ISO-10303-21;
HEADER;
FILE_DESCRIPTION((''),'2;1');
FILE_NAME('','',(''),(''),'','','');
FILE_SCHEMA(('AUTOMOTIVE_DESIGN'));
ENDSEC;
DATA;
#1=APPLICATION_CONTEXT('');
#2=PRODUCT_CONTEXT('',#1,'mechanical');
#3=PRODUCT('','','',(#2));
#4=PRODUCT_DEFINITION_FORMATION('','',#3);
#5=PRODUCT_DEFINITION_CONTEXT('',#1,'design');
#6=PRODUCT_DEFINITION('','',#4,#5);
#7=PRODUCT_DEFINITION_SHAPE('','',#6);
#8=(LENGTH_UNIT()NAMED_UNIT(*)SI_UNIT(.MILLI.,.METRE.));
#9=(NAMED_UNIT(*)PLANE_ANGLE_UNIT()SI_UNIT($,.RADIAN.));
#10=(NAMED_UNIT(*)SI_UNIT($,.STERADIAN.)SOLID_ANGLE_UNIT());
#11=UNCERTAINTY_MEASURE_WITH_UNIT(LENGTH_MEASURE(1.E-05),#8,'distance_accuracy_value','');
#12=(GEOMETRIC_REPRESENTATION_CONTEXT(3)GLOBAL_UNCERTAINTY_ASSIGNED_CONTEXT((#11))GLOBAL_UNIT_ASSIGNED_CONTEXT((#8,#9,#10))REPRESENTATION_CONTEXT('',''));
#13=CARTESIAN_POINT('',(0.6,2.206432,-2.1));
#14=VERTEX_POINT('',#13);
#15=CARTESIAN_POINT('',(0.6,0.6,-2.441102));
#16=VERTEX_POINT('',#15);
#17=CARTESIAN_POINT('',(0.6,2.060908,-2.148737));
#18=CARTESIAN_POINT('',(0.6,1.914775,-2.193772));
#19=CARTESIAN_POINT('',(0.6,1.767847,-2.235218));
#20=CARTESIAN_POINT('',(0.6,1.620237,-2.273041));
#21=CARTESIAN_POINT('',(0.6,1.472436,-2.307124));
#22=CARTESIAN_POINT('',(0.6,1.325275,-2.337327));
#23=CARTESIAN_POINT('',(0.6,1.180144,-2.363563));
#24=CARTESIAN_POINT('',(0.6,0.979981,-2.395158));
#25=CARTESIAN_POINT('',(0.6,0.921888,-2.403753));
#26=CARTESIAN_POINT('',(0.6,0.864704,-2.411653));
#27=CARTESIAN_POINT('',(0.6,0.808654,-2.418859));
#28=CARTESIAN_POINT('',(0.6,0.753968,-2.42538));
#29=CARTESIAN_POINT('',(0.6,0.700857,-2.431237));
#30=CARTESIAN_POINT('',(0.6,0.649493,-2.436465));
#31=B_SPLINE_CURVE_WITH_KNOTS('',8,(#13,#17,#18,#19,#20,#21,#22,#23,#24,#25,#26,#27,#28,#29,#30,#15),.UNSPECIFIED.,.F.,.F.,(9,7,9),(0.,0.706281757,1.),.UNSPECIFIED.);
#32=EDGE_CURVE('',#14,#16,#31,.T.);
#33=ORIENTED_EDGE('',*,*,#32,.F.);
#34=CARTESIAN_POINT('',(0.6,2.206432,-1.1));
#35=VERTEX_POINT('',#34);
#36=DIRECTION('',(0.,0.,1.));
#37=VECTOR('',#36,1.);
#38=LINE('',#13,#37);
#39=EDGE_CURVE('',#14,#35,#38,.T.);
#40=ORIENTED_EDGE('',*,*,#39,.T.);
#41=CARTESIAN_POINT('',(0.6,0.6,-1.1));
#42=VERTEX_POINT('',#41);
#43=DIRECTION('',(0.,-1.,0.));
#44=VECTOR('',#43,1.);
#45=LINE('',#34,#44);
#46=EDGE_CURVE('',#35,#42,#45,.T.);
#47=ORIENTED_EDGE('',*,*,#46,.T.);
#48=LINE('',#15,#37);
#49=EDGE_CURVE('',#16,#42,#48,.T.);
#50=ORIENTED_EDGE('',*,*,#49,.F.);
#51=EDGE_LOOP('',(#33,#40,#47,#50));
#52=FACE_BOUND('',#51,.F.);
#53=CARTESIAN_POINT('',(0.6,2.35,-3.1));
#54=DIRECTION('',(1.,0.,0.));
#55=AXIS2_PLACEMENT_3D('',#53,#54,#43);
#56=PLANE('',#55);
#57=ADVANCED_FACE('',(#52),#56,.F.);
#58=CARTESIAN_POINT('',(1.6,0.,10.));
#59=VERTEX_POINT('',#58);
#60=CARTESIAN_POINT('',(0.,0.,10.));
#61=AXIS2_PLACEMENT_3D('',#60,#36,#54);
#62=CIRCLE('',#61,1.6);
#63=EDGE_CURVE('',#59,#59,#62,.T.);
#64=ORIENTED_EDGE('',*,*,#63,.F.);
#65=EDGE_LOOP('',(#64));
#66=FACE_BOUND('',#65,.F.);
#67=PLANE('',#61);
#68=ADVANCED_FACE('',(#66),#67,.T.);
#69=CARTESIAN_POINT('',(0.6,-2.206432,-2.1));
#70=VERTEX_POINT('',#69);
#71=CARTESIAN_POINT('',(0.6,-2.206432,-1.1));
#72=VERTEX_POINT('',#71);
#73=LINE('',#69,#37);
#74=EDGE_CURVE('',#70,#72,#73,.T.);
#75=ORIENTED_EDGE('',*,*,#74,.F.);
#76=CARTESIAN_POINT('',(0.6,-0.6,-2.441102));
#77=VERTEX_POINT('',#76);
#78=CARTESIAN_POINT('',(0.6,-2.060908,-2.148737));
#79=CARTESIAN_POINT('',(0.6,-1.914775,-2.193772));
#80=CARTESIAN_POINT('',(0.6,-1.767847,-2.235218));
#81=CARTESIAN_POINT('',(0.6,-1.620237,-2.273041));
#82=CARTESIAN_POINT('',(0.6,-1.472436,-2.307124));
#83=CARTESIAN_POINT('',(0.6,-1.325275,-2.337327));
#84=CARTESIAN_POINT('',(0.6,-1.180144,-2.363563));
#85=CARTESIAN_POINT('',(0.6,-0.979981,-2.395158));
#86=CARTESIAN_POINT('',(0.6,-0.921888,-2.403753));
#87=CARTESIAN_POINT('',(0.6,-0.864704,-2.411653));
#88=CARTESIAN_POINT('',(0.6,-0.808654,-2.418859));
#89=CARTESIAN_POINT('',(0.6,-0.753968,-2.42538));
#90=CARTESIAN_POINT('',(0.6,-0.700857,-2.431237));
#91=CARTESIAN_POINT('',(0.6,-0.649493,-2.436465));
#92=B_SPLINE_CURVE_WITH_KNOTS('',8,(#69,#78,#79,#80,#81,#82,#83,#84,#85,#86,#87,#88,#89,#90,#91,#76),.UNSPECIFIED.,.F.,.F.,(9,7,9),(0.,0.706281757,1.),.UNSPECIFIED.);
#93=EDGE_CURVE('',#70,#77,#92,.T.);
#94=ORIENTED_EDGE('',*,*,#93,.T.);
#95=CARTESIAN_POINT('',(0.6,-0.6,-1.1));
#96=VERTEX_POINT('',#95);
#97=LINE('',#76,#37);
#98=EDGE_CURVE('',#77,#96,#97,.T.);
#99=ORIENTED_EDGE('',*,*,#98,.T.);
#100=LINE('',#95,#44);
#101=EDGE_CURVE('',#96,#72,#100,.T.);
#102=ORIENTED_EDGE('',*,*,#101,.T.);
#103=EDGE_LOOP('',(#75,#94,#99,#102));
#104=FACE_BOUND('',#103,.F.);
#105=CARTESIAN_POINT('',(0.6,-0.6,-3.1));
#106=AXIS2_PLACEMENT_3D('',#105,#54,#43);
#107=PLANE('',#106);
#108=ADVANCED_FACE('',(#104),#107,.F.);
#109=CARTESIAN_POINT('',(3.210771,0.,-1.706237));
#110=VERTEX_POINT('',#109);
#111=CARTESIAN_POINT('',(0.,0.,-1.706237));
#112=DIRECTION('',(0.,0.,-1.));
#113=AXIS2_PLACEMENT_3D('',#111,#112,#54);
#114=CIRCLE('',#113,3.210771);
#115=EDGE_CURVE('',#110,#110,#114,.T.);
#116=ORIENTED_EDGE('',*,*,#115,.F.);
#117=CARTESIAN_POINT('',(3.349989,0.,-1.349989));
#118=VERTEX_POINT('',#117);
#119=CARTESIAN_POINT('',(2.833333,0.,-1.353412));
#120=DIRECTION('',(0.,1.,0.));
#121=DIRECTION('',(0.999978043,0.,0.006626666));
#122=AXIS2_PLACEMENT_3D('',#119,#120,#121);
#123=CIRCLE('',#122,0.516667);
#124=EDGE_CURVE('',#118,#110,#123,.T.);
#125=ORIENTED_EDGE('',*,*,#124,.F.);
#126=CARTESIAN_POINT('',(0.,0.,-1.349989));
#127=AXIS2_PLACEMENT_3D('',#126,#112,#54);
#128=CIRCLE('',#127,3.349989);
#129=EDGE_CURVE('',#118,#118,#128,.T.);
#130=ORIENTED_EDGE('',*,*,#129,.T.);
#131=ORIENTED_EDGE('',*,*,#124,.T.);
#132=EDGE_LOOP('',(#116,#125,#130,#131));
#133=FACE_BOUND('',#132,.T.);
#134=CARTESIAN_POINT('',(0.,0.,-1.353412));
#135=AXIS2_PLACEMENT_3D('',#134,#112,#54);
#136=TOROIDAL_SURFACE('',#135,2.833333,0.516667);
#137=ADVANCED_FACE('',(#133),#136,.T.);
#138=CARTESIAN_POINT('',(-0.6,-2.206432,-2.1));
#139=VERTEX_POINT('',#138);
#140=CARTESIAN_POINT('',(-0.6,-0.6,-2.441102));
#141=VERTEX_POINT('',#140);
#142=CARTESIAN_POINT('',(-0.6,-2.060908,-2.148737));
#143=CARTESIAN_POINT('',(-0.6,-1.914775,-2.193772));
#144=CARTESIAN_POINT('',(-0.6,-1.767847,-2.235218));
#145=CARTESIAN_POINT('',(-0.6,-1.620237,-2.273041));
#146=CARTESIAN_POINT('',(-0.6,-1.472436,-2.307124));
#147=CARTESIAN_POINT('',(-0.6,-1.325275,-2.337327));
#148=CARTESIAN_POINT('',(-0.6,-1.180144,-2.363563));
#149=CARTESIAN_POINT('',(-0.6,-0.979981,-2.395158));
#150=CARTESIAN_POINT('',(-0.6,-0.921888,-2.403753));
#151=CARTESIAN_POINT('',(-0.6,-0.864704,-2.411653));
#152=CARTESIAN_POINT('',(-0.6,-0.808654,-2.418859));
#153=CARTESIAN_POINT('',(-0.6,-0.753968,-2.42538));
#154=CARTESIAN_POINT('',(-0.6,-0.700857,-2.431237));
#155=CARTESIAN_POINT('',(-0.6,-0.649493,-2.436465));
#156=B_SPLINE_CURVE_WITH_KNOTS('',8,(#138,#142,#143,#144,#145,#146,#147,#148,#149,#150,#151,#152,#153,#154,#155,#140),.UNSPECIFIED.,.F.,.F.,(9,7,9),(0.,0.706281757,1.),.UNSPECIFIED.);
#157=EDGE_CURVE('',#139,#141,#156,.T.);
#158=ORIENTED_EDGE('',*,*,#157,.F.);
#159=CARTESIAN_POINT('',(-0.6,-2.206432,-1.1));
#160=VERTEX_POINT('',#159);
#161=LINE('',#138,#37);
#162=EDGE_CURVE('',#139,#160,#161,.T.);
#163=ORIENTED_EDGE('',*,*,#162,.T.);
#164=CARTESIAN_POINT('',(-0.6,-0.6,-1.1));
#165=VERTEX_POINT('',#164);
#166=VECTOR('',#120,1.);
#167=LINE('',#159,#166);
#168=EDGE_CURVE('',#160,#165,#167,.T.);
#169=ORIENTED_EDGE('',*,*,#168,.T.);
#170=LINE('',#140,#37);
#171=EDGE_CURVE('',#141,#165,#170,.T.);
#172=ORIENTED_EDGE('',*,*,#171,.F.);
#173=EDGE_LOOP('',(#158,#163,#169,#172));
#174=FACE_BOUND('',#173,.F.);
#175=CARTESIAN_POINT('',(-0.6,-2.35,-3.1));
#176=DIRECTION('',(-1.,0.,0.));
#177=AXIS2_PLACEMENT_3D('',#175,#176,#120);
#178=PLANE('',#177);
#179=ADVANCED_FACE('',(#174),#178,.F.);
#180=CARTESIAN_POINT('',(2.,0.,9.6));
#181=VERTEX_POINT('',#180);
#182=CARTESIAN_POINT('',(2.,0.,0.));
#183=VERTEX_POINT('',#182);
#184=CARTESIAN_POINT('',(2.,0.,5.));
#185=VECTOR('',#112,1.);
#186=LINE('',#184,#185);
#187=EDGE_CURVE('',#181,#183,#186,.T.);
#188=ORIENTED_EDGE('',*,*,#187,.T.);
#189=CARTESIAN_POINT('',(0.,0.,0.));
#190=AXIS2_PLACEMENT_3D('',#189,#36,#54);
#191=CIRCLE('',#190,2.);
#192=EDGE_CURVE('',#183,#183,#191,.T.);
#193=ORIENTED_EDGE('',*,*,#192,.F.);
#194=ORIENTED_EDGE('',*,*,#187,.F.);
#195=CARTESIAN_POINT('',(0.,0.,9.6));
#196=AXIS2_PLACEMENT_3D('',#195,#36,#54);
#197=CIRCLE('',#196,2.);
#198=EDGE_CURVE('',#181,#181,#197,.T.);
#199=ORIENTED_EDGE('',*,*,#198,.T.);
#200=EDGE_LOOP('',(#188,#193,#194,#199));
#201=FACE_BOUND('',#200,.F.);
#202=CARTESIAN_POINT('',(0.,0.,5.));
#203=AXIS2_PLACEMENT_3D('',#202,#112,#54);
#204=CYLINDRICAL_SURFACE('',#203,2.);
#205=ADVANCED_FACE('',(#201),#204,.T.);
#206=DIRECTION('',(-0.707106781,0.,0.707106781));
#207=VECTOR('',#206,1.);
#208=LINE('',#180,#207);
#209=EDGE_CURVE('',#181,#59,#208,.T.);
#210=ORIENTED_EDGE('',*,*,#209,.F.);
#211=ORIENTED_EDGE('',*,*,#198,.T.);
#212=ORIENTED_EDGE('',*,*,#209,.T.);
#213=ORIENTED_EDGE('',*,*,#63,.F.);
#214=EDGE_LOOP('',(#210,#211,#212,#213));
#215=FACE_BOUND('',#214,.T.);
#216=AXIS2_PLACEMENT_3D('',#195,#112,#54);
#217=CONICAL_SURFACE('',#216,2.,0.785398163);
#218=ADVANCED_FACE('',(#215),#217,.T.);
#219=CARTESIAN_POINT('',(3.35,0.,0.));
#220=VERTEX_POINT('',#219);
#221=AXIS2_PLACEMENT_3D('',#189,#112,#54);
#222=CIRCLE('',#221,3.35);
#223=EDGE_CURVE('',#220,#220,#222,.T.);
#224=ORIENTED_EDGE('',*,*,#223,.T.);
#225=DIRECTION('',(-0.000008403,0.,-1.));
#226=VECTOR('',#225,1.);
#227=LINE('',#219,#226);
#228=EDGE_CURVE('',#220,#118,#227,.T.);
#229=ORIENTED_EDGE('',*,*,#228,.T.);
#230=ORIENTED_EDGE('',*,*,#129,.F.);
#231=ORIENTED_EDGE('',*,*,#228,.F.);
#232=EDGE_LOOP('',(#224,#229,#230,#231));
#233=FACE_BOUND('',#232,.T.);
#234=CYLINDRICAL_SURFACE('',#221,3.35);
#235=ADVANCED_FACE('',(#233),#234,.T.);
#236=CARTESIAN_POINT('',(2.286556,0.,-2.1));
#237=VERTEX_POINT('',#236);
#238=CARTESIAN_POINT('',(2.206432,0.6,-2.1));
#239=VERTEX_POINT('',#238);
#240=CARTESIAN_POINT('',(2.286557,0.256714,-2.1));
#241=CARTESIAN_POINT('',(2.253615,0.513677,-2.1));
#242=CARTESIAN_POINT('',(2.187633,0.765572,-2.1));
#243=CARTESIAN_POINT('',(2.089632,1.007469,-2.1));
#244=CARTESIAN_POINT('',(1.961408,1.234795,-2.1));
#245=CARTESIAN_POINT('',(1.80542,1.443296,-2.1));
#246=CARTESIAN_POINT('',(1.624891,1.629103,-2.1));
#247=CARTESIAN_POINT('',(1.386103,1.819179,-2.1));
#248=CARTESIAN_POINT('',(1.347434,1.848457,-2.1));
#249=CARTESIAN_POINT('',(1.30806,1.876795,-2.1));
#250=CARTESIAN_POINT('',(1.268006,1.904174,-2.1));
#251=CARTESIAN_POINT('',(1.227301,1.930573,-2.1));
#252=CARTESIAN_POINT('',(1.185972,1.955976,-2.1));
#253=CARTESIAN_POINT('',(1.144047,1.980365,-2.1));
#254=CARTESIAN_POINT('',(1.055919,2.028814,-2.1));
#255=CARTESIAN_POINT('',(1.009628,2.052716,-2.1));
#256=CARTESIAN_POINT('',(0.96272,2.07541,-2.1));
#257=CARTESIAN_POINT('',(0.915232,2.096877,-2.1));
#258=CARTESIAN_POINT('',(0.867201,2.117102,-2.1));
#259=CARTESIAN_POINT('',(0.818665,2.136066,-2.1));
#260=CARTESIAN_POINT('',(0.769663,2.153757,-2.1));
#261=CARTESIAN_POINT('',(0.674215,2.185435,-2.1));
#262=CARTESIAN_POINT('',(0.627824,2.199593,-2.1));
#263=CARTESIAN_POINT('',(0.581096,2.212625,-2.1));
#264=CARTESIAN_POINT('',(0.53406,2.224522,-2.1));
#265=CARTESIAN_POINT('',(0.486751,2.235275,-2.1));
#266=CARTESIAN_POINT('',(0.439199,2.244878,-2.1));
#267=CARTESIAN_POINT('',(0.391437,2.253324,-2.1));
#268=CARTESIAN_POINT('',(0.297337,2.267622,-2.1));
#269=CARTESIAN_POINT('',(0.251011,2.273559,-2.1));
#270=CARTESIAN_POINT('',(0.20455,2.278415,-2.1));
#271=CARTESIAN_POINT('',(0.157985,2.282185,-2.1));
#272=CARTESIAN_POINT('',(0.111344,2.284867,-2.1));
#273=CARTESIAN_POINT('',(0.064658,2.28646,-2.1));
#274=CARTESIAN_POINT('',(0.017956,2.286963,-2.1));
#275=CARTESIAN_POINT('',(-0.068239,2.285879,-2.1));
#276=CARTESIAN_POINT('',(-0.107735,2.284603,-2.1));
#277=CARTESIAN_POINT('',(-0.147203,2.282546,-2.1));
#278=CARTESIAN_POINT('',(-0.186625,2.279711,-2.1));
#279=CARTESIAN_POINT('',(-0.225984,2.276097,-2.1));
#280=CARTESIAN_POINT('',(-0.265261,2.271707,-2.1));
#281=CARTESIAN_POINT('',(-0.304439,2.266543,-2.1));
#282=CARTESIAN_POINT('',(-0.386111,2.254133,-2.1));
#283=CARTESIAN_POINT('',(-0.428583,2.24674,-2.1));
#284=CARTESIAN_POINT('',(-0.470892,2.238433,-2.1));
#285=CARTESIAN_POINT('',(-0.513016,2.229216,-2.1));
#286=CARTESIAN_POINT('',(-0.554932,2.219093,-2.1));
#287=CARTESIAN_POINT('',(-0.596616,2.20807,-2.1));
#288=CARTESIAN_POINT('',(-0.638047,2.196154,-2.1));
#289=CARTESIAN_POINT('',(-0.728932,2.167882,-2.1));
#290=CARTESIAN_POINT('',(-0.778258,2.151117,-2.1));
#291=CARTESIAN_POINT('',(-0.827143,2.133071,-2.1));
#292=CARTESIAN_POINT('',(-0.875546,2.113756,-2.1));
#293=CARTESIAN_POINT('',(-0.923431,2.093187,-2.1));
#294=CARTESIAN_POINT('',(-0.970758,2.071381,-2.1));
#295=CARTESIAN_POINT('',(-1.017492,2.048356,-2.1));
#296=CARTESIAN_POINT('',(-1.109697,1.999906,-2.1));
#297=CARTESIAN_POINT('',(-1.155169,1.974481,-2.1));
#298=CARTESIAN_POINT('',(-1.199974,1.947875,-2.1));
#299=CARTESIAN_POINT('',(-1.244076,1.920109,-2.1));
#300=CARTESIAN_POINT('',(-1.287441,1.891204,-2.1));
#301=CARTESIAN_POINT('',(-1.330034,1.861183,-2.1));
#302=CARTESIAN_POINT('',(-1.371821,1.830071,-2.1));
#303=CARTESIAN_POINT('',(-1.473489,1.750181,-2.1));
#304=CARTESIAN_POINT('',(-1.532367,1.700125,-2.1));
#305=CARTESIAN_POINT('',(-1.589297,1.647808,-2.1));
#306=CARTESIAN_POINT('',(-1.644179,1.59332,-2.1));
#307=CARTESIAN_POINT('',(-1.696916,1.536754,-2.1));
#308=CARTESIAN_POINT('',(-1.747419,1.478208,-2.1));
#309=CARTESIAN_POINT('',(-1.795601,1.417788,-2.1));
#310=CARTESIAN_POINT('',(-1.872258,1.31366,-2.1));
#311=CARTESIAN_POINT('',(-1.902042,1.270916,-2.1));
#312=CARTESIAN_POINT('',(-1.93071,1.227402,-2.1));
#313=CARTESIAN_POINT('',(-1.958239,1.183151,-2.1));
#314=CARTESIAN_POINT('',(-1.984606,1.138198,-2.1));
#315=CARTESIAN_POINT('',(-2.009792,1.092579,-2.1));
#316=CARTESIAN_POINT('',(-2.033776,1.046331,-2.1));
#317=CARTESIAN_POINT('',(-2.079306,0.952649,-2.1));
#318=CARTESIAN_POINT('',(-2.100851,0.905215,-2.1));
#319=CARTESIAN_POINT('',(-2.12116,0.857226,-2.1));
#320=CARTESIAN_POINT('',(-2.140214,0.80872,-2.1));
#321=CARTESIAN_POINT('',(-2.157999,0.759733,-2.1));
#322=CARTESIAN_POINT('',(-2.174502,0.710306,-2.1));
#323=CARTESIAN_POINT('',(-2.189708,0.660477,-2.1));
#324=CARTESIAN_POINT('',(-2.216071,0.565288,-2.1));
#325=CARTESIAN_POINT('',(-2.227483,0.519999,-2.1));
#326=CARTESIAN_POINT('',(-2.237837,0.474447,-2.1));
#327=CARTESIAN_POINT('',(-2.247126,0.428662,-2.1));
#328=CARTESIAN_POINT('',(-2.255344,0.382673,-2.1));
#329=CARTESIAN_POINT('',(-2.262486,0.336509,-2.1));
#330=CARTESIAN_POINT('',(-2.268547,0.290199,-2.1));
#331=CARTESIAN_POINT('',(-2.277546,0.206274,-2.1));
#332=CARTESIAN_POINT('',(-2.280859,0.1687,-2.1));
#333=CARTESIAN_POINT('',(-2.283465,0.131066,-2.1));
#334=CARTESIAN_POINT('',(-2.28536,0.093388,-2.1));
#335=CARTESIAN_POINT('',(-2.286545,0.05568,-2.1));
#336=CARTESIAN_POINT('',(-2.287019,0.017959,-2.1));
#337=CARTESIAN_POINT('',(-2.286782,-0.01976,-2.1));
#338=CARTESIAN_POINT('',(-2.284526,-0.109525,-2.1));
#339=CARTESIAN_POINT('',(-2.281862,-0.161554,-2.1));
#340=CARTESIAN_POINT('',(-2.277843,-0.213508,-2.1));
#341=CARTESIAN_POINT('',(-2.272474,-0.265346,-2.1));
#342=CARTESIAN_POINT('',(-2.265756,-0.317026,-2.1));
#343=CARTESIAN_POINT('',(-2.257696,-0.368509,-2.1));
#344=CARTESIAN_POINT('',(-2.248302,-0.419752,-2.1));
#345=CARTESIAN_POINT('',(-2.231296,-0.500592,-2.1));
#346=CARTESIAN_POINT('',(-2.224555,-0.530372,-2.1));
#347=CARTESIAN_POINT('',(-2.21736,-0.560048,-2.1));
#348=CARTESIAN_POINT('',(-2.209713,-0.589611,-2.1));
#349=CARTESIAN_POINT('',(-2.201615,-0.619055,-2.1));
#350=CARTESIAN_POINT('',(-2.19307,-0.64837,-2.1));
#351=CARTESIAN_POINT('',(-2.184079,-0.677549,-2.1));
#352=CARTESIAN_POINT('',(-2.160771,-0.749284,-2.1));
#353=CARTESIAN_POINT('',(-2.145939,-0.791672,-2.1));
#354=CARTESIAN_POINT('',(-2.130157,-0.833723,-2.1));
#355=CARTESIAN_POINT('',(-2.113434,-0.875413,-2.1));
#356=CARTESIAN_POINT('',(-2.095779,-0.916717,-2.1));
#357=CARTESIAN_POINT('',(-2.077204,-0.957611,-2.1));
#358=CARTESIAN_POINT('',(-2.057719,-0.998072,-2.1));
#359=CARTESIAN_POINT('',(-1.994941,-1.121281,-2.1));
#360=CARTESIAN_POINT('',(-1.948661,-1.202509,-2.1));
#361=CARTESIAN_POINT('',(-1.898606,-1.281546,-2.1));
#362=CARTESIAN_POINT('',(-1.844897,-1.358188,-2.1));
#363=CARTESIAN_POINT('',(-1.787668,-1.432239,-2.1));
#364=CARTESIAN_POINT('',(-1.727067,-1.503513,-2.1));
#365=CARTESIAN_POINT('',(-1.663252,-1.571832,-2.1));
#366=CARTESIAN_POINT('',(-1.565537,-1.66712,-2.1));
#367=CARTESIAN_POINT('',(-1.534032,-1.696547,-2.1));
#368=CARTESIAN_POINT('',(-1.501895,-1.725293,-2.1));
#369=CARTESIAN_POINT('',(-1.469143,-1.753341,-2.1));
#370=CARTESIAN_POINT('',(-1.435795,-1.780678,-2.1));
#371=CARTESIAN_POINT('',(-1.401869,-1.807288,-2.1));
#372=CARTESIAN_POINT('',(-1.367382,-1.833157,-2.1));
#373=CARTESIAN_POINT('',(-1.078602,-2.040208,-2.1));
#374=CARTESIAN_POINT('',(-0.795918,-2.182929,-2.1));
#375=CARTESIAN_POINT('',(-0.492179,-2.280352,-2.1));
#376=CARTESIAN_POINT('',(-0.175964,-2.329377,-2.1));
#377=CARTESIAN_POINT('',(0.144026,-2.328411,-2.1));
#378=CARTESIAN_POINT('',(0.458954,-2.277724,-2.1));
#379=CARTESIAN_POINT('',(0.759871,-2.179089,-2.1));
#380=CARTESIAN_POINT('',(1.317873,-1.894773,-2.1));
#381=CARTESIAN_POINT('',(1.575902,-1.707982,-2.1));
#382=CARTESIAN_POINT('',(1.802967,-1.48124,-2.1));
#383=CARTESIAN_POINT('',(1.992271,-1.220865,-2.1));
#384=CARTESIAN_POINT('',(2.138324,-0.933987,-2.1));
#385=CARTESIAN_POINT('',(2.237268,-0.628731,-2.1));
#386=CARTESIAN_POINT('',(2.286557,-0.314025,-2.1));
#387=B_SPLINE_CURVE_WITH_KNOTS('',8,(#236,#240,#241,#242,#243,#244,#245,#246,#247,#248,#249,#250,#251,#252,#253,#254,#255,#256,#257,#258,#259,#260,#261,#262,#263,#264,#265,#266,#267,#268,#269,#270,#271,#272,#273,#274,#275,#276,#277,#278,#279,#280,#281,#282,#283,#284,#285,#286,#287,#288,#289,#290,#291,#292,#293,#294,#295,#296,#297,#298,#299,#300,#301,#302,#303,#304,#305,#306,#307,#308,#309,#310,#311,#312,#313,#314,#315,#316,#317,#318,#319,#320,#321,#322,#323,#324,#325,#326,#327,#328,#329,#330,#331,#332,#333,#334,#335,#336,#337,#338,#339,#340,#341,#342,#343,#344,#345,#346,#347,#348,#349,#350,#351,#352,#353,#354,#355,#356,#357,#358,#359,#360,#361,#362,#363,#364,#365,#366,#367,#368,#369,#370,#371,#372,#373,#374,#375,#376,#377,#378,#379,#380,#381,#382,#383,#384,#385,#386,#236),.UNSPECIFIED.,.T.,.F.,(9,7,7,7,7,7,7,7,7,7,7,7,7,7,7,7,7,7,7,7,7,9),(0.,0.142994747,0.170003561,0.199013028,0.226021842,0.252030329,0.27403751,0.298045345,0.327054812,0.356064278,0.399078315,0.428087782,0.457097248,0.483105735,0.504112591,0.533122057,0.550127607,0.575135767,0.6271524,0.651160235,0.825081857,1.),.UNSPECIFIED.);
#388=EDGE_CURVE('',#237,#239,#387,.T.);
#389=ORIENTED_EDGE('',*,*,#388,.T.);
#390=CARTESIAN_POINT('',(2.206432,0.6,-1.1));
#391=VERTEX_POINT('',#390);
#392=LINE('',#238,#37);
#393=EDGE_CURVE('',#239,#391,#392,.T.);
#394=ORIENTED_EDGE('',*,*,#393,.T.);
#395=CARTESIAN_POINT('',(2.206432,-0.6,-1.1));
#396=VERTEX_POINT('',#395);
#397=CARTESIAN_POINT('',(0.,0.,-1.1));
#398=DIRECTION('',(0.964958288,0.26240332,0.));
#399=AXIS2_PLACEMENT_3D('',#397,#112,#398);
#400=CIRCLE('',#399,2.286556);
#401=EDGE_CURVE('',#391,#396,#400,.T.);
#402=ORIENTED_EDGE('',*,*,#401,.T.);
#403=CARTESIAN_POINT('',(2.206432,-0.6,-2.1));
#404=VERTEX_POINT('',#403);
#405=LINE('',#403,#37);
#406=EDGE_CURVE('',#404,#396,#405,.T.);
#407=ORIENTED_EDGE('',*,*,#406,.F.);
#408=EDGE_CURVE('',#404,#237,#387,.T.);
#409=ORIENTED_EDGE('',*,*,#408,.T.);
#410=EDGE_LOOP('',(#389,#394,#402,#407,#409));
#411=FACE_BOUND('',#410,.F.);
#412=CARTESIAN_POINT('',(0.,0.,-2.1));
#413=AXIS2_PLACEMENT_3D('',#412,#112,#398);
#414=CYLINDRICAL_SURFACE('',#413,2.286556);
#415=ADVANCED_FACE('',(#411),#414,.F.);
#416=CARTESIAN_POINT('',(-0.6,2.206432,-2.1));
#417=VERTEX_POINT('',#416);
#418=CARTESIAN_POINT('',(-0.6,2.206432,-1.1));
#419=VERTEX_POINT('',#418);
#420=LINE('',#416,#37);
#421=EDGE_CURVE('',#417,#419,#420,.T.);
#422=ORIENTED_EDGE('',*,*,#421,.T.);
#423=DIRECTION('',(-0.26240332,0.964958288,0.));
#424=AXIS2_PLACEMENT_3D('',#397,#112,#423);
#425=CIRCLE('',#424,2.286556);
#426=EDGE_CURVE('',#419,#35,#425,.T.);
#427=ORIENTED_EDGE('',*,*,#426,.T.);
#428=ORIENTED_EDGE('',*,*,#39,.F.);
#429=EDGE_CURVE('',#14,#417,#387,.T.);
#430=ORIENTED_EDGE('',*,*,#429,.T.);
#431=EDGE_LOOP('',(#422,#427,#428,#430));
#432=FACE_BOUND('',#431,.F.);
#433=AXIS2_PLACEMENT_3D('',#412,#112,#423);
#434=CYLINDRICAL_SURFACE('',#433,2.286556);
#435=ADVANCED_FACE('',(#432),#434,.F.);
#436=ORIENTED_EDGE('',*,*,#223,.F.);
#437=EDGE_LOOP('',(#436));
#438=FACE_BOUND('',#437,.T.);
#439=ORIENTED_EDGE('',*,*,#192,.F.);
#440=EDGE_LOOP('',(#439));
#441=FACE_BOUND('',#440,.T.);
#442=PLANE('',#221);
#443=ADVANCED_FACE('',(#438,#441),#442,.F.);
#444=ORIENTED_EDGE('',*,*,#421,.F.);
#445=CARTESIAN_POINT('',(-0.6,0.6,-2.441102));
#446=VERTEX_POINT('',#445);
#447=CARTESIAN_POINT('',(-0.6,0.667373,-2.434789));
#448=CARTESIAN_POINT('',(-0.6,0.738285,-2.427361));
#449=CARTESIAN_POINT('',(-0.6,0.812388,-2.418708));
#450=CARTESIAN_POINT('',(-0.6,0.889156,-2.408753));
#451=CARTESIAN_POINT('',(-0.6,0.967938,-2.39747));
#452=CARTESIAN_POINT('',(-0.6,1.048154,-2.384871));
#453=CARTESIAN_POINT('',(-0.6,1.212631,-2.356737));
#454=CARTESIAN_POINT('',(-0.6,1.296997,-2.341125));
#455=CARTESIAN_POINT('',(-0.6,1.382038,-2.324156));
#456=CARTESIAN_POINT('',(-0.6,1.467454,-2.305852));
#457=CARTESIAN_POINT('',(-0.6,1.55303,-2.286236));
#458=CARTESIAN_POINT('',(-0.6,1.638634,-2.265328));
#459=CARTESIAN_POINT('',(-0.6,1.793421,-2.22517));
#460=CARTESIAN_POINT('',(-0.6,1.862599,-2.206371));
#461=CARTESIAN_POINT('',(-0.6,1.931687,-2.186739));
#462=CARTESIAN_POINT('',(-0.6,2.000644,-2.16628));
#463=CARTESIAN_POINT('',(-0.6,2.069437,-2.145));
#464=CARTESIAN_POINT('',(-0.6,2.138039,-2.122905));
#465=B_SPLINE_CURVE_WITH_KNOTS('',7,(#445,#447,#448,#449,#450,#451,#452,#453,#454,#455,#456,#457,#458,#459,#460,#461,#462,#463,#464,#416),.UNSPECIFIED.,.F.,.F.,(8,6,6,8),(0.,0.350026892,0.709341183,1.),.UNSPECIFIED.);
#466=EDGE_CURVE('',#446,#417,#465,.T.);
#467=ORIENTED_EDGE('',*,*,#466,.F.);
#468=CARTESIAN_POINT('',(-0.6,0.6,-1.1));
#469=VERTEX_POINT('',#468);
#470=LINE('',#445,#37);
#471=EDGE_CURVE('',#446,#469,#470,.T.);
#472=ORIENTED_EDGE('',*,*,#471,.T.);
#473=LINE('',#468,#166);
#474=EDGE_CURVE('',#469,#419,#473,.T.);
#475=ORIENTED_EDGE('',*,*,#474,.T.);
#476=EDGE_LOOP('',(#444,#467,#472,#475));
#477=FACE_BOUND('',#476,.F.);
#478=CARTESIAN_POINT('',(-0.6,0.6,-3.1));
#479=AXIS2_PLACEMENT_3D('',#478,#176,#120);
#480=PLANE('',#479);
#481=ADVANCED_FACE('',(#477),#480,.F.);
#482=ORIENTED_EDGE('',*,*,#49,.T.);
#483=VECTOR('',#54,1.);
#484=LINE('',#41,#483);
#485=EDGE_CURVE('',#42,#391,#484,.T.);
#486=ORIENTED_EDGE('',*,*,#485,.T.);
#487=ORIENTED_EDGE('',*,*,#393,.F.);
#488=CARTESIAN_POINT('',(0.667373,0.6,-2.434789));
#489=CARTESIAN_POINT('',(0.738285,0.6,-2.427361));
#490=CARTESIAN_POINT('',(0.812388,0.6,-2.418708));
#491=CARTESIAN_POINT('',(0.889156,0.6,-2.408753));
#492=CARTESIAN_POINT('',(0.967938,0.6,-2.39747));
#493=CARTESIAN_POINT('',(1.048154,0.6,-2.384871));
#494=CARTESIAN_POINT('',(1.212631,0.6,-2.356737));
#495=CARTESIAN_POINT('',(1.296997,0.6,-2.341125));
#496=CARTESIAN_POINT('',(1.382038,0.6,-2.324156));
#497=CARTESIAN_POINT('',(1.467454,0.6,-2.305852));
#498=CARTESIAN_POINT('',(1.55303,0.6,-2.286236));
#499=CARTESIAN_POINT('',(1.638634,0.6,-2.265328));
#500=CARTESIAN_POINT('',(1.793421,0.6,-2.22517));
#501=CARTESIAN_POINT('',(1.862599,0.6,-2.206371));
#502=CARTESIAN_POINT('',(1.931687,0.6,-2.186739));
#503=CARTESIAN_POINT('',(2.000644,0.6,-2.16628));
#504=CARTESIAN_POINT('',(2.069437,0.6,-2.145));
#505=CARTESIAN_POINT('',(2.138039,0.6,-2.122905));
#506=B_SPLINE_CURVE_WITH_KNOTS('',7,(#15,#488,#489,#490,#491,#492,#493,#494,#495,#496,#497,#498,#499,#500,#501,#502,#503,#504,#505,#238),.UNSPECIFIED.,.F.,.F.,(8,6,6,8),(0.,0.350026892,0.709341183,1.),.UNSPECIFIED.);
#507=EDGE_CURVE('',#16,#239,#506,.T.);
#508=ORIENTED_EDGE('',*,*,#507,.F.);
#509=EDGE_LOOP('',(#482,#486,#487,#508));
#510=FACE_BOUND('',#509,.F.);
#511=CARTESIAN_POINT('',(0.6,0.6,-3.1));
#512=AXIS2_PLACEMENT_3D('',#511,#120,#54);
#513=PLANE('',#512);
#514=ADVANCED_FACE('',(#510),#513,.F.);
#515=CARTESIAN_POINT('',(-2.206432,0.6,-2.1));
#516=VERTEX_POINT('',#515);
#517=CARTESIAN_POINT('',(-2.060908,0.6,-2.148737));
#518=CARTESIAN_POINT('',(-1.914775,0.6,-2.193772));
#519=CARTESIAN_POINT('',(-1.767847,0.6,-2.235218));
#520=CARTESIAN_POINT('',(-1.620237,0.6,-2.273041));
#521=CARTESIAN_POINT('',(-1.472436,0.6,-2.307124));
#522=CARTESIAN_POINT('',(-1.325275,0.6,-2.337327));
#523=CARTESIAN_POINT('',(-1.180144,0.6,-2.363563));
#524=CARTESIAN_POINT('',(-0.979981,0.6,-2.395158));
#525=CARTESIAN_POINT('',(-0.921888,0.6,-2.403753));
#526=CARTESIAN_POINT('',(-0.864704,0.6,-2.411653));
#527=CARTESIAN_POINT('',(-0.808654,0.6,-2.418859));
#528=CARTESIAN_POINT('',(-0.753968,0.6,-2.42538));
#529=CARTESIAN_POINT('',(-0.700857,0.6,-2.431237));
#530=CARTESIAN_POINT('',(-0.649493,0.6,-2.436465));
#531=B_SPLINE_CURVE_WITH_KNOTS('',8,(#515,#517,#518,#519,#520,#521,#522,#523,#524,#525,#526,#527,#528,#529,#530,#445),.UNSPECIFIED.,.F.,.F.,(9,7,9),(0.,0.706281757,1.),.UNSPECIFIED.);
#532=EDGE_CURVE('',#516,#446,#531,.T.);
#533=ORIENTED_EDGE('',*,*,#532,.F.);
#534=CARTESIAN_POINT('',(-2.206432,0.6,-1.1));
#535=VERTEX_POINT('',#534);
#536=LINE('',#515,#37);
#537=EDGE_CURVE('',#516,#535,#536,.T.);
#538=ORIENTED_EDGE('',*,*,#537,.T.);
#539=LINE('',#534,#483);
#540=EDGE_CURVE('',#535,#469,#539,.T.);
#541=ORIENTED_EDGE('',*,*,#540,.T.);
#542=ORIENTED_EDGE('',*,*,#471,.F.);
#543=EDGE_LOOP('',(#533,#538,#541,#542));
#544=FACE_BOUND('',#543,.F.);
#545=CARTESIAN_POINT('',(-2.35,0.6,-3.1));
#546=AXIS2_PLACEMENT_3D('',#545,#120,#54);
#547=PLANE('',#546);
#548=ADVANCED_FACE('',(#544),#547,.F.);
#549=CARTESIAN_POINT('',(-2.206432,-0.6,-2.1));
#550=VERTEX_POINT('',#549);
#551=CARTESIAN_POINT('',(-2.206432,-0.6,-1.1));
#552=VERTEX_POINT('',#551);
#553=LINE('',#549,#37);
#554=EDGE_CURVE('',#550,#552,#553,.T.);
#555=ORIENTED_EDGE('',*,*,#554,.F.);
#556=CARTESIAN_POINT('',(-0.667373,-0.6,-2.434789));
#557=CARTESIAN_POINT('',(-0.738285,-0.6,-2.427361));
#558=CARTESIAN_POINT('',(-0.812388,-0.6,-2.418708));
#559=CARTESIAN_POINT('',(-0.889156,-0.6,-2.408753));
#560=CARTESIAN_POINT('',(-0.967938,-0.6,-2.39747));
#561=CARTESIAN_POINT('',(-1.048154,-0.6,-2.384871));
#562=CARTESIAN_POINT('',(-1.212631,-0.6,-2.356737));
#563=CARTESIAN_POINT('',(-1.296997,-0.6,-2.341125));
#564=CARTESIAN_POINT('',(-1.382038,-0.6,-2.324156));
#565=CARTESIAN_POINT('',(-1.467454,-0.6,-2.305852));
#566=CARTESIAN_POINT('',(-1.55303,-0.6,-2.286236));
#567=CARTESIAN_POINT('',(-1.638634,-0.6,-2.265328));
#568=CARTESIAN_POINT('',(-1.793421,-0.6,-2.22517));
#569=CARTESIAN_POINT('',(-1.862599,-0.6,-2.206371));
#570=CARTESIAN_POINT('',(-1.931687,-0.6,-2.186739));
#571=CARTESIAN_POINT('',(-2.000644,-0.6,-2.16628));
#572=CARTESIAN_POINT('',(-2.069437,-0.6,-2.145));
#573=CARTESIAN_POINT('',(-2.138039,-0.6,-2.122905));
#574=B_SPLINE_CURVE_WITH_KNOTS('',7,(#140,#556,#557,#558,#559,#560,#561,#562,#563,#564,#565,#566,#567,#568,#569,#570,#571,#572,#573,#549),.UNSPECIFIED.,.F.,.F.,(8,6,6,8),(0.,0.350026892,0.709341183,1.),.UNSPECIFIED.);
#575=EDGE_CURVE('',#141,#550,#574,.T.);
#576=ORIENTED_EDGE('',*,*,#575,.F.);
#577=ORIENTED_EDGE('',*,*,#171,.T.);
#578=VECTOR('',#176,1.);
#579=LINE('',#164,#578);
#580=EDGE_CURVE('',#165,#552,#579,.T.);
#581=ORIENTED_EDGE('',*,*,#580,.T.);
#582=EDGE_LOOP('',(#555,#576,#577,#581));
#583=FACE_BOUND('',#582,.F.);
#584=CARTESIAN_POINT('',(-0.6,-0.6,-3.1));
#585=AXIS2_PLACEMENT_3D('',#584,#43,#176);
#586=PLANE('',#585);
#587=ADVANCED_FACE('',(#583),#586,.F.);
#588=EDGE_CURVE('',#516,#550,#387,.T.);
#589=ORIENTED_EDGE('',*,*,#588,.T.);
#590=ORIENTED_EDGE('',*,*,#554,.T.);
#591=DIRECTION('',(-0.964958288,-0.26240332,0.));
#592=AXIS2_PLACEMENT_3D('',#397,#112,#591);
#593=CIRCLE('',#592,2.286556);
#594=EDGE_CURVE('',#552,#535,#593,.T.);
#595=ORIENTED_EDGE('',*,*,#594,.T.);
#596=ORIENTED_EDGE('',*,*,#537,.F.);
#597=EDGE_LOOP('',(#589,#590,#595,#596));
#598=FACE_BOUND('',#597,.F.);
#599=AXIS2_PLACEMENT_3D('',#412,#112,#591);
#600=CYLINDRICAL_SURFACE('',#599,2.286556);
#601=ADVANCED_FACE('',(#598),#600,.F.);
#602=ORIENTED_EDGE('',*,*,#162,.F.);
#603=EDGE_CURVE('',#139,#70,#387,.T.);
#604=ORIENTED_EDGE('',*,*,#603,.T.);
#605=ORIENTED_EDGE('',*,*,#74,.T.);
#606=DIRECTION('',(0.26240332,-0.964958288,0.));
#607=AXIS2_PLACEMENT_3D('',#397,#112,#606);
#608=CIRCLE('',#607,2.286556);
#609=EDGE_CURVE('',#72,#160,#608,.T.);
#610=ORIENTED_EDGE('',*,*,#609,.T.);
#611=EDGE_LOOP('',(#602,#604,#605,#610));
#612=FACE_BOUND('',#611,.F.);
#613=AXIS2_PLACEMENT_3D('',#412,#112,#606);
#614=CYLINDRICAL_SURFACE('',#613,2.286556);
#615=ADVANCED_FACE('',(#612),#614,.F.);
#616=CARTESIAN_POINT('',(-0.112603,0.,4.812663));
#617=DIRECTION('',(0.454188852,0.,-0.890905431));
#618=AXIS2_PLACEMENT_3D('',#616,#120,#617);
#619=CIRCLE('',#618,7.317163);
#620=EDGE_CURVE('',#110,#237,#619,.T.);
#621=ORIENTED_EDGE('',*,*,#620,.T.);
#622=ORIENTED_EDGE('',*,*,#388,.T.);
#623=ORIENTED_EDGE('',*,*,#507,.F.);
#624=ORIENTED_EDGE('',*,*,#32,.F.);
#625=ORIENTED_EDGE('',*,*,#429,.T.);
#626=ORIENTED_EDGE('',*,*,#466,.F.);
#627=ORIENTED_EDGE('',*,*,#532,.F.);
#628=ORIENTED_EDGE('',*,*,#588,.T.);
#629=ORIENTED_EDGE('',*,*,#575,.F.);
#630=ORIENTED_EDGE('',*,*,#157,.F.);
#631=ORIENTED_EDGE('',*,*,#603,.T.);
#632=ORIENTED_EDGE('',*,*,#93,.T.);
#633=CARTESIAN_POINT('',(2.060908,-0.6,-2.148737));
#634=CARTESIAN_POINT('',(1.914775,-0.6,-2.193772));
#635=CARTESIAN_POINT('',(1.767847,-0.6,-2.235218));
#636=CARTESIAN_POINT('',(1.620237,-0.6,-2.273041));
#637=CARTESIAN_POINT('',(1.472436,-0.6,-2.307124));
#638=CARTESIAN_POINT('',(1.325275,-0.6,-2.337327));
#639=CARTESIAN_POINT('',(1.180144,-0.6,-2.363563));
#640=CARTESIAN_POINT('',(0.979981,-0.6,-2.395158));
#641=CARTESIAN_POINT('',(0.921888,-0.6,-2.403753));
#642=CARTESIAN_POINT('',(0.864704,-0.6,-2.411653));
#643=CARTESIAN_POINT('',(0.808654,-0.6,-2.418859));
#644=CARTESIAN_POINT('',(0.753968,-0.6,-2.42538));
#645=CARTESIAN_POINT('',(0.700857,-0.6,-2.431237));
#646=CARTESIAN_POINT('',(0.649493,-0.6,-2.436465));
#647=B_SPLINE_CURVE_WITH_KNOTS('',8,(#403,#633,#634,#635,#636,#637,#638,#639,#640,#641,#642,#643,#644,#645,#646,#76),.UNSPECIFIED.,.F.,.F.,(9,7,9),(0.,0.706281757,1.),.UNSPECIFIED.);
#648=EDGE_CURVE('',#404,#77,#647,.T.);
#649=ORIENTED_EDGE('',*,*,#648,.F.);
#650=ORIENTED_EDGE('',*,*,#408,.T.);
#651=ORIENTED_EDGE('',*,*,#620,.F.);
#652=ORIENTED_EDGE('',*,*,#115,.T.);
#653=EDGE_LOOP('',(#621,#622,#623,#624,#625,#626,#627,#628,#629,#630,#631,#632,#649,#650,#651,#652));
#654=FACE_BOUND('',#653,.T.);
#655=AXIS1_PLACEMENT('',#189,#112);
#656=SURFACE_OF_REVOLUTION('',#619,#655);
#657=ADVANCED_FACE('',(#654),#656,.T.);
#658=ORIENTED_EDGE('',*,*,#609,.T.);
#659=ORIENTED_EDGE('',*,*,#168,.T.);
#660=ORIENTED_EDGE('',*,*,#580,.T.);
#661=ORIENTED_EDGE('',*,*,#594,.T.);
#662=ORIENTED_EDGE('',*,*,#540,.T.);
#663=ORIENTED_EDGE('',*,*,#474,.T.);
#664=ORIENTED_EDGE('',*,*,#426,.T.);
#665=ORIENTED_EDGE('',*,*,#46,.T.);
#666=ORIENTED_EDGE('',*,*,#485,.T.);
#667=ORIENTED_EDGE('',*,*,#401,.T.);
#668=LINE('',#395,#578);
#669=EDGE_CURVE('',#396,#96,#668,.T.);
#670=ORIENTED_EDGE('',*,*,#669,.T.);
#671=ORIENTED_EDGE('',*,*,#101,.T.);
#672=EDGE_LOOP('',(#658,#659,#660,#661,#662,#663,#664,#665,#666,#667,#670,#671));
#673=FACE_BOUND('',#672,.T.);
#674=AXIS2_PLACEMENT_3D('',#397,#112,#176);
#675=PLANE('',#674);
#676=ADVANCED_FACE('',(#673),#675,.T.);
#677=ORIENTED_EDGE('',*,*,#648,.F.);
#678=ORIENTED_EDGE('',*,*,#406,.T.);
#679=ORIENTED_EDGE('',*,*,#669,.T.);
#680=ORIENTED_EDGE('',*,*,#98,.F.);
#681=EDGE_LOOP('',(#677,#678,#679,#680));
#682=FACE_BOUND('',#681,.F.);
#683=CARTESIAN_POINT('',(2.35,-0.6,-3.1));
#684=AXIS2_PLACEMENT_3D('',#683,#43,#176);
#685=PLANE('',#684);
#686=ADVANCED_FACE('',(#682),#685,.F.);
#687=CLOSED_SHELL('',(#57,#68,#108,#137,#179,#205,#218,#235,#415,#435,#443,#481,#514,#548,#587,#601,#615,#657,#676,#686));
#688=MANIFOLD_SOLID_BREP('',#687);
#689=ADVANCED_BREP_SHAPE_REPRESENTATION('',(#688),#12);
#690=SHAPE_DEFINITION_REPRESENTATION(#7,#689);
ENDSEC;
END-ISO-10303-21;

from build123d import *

# Parameters (mm, degrees)
ENLEV_MAT_EXTRU_1_DEPTH = 1
ESQUISSE3_W             = 2
ESQUISSE3_H             = 10
CHANFREIN1_SIZE         = 0.4
ENL_V_MAT_EXTRU_1_DEPTH = 1


with BuildPart() as part:
    # Esquisse1 → Base-Révolution (revolve)
    with BuildSketch(Plane(origin=(0, 0, 0), x_dir=(1, 0, 0), z_dir=(0, 1, 0))):
        with BuildLine():
            Line((0, 0), (3.35, 0))
            Line((3.35, 0), (3.349988656, 1.349988656))
            ThreePointArc((3.349988656, 1.349988656), (3.314559619, 1.541470155), (3.210770724, 1.706237405))
            ThreePointArc((3.210770724, 1.706237405), (1.651042147, 2.288775714), (0, 2.503633679))
            Line((0, 2.503633679), (0, 0))
        make_face()
    revolve(axis=Axis((0, 0, 0), (0, 0, -1)))

    # Esquisse2 → Enlev. mat.-Extru.1 (cut)
    with BuildSketch(Plane.XY.offset(-3.1)):
        Polygon((0.6, -0.6), (0.6, -2.35), (-0.6, -2.35), (-0.6, -0.6), (-2.35, -0.6), (-2.35, 0.6), (-0.6, 0.6), (-0.6, 2.35), (0.6, 2.35), (0.6, 0.6), (2.35, 0.6), (2.35, -0.6), align=None)
    extrude(amount=ENLEV_MAT_EXTRU_1_DEPTH, mode=Mode.SUBTRACT)

    # Esquisse3 → Boss.-Révol.1 (revolve)
    with BuildSketch(Plane(origin=(0, 0, 0), x_dir=(1, 0, 0), z_dir=(0, 1, 0))):
        with Locations((1, -5)):
            Rectangle(ESQUISSE3_W, ESQUISSE3_H)
    revolve(axis=Axis((0, 0, 0), (0, 0, 1)))

    # Chanfrein1
    chanfrein1_edges = [part.edges().sort_by_distance(p)[0] for p in [
        (-2, 0, 10),
    ]]
    chamfer(chanfrein1_edges, length=CHANFREIN1_SIZE)

    # Esquisse6 → Enlèv. mat.-Extru.1 (cut)
    with BuildSketch(Plane(origin=(0, 0, -2.1), x_dir=(-1, 0, 0), z_dir=(0, 0, -1))):
        with BuildLine():
            Line((2.206431589, 0.6), (0.6, 0.6))
            Line((0.6, 0.6), (0.6, 2.206431589))
            ThreePointArc((0.6, 2.206431589), (0, 2.286556441), (-0.6, 2.206431589))
            Line((-0.6, 2.206431589), (-0.6, 0.6))
            Line((-0.6, 0.6), (-2.206431589, 0.6))
            ThreePointArc((-2.206431589, 0.6), (-2.286556441, 0), (-2.206431589, -0.6))
            Line((-2.206431589, -0.6), (-0.6, -0.6))
            Line((-0.6, -0.6), (-0.6, -2.206431589))
            ThreePointArc((-0.6, -2.206431589), (0, -2.286556441), (0.6, -2.206431589))
            Line((0.6, -2.206431589), (0.6, -0.6))
            Line((0.6, -0.6), (2.206431589, -0.6))
            ThreePointArc((2.206431589, -0.6), (2.286556441, 0), (2.206431589, 0.6))
        make_face()
    extrude(amount=-ENL_V_MAT_EXTRU_1_DEPTH, mode=Mode.SUBTRACT)


solid = part.part
